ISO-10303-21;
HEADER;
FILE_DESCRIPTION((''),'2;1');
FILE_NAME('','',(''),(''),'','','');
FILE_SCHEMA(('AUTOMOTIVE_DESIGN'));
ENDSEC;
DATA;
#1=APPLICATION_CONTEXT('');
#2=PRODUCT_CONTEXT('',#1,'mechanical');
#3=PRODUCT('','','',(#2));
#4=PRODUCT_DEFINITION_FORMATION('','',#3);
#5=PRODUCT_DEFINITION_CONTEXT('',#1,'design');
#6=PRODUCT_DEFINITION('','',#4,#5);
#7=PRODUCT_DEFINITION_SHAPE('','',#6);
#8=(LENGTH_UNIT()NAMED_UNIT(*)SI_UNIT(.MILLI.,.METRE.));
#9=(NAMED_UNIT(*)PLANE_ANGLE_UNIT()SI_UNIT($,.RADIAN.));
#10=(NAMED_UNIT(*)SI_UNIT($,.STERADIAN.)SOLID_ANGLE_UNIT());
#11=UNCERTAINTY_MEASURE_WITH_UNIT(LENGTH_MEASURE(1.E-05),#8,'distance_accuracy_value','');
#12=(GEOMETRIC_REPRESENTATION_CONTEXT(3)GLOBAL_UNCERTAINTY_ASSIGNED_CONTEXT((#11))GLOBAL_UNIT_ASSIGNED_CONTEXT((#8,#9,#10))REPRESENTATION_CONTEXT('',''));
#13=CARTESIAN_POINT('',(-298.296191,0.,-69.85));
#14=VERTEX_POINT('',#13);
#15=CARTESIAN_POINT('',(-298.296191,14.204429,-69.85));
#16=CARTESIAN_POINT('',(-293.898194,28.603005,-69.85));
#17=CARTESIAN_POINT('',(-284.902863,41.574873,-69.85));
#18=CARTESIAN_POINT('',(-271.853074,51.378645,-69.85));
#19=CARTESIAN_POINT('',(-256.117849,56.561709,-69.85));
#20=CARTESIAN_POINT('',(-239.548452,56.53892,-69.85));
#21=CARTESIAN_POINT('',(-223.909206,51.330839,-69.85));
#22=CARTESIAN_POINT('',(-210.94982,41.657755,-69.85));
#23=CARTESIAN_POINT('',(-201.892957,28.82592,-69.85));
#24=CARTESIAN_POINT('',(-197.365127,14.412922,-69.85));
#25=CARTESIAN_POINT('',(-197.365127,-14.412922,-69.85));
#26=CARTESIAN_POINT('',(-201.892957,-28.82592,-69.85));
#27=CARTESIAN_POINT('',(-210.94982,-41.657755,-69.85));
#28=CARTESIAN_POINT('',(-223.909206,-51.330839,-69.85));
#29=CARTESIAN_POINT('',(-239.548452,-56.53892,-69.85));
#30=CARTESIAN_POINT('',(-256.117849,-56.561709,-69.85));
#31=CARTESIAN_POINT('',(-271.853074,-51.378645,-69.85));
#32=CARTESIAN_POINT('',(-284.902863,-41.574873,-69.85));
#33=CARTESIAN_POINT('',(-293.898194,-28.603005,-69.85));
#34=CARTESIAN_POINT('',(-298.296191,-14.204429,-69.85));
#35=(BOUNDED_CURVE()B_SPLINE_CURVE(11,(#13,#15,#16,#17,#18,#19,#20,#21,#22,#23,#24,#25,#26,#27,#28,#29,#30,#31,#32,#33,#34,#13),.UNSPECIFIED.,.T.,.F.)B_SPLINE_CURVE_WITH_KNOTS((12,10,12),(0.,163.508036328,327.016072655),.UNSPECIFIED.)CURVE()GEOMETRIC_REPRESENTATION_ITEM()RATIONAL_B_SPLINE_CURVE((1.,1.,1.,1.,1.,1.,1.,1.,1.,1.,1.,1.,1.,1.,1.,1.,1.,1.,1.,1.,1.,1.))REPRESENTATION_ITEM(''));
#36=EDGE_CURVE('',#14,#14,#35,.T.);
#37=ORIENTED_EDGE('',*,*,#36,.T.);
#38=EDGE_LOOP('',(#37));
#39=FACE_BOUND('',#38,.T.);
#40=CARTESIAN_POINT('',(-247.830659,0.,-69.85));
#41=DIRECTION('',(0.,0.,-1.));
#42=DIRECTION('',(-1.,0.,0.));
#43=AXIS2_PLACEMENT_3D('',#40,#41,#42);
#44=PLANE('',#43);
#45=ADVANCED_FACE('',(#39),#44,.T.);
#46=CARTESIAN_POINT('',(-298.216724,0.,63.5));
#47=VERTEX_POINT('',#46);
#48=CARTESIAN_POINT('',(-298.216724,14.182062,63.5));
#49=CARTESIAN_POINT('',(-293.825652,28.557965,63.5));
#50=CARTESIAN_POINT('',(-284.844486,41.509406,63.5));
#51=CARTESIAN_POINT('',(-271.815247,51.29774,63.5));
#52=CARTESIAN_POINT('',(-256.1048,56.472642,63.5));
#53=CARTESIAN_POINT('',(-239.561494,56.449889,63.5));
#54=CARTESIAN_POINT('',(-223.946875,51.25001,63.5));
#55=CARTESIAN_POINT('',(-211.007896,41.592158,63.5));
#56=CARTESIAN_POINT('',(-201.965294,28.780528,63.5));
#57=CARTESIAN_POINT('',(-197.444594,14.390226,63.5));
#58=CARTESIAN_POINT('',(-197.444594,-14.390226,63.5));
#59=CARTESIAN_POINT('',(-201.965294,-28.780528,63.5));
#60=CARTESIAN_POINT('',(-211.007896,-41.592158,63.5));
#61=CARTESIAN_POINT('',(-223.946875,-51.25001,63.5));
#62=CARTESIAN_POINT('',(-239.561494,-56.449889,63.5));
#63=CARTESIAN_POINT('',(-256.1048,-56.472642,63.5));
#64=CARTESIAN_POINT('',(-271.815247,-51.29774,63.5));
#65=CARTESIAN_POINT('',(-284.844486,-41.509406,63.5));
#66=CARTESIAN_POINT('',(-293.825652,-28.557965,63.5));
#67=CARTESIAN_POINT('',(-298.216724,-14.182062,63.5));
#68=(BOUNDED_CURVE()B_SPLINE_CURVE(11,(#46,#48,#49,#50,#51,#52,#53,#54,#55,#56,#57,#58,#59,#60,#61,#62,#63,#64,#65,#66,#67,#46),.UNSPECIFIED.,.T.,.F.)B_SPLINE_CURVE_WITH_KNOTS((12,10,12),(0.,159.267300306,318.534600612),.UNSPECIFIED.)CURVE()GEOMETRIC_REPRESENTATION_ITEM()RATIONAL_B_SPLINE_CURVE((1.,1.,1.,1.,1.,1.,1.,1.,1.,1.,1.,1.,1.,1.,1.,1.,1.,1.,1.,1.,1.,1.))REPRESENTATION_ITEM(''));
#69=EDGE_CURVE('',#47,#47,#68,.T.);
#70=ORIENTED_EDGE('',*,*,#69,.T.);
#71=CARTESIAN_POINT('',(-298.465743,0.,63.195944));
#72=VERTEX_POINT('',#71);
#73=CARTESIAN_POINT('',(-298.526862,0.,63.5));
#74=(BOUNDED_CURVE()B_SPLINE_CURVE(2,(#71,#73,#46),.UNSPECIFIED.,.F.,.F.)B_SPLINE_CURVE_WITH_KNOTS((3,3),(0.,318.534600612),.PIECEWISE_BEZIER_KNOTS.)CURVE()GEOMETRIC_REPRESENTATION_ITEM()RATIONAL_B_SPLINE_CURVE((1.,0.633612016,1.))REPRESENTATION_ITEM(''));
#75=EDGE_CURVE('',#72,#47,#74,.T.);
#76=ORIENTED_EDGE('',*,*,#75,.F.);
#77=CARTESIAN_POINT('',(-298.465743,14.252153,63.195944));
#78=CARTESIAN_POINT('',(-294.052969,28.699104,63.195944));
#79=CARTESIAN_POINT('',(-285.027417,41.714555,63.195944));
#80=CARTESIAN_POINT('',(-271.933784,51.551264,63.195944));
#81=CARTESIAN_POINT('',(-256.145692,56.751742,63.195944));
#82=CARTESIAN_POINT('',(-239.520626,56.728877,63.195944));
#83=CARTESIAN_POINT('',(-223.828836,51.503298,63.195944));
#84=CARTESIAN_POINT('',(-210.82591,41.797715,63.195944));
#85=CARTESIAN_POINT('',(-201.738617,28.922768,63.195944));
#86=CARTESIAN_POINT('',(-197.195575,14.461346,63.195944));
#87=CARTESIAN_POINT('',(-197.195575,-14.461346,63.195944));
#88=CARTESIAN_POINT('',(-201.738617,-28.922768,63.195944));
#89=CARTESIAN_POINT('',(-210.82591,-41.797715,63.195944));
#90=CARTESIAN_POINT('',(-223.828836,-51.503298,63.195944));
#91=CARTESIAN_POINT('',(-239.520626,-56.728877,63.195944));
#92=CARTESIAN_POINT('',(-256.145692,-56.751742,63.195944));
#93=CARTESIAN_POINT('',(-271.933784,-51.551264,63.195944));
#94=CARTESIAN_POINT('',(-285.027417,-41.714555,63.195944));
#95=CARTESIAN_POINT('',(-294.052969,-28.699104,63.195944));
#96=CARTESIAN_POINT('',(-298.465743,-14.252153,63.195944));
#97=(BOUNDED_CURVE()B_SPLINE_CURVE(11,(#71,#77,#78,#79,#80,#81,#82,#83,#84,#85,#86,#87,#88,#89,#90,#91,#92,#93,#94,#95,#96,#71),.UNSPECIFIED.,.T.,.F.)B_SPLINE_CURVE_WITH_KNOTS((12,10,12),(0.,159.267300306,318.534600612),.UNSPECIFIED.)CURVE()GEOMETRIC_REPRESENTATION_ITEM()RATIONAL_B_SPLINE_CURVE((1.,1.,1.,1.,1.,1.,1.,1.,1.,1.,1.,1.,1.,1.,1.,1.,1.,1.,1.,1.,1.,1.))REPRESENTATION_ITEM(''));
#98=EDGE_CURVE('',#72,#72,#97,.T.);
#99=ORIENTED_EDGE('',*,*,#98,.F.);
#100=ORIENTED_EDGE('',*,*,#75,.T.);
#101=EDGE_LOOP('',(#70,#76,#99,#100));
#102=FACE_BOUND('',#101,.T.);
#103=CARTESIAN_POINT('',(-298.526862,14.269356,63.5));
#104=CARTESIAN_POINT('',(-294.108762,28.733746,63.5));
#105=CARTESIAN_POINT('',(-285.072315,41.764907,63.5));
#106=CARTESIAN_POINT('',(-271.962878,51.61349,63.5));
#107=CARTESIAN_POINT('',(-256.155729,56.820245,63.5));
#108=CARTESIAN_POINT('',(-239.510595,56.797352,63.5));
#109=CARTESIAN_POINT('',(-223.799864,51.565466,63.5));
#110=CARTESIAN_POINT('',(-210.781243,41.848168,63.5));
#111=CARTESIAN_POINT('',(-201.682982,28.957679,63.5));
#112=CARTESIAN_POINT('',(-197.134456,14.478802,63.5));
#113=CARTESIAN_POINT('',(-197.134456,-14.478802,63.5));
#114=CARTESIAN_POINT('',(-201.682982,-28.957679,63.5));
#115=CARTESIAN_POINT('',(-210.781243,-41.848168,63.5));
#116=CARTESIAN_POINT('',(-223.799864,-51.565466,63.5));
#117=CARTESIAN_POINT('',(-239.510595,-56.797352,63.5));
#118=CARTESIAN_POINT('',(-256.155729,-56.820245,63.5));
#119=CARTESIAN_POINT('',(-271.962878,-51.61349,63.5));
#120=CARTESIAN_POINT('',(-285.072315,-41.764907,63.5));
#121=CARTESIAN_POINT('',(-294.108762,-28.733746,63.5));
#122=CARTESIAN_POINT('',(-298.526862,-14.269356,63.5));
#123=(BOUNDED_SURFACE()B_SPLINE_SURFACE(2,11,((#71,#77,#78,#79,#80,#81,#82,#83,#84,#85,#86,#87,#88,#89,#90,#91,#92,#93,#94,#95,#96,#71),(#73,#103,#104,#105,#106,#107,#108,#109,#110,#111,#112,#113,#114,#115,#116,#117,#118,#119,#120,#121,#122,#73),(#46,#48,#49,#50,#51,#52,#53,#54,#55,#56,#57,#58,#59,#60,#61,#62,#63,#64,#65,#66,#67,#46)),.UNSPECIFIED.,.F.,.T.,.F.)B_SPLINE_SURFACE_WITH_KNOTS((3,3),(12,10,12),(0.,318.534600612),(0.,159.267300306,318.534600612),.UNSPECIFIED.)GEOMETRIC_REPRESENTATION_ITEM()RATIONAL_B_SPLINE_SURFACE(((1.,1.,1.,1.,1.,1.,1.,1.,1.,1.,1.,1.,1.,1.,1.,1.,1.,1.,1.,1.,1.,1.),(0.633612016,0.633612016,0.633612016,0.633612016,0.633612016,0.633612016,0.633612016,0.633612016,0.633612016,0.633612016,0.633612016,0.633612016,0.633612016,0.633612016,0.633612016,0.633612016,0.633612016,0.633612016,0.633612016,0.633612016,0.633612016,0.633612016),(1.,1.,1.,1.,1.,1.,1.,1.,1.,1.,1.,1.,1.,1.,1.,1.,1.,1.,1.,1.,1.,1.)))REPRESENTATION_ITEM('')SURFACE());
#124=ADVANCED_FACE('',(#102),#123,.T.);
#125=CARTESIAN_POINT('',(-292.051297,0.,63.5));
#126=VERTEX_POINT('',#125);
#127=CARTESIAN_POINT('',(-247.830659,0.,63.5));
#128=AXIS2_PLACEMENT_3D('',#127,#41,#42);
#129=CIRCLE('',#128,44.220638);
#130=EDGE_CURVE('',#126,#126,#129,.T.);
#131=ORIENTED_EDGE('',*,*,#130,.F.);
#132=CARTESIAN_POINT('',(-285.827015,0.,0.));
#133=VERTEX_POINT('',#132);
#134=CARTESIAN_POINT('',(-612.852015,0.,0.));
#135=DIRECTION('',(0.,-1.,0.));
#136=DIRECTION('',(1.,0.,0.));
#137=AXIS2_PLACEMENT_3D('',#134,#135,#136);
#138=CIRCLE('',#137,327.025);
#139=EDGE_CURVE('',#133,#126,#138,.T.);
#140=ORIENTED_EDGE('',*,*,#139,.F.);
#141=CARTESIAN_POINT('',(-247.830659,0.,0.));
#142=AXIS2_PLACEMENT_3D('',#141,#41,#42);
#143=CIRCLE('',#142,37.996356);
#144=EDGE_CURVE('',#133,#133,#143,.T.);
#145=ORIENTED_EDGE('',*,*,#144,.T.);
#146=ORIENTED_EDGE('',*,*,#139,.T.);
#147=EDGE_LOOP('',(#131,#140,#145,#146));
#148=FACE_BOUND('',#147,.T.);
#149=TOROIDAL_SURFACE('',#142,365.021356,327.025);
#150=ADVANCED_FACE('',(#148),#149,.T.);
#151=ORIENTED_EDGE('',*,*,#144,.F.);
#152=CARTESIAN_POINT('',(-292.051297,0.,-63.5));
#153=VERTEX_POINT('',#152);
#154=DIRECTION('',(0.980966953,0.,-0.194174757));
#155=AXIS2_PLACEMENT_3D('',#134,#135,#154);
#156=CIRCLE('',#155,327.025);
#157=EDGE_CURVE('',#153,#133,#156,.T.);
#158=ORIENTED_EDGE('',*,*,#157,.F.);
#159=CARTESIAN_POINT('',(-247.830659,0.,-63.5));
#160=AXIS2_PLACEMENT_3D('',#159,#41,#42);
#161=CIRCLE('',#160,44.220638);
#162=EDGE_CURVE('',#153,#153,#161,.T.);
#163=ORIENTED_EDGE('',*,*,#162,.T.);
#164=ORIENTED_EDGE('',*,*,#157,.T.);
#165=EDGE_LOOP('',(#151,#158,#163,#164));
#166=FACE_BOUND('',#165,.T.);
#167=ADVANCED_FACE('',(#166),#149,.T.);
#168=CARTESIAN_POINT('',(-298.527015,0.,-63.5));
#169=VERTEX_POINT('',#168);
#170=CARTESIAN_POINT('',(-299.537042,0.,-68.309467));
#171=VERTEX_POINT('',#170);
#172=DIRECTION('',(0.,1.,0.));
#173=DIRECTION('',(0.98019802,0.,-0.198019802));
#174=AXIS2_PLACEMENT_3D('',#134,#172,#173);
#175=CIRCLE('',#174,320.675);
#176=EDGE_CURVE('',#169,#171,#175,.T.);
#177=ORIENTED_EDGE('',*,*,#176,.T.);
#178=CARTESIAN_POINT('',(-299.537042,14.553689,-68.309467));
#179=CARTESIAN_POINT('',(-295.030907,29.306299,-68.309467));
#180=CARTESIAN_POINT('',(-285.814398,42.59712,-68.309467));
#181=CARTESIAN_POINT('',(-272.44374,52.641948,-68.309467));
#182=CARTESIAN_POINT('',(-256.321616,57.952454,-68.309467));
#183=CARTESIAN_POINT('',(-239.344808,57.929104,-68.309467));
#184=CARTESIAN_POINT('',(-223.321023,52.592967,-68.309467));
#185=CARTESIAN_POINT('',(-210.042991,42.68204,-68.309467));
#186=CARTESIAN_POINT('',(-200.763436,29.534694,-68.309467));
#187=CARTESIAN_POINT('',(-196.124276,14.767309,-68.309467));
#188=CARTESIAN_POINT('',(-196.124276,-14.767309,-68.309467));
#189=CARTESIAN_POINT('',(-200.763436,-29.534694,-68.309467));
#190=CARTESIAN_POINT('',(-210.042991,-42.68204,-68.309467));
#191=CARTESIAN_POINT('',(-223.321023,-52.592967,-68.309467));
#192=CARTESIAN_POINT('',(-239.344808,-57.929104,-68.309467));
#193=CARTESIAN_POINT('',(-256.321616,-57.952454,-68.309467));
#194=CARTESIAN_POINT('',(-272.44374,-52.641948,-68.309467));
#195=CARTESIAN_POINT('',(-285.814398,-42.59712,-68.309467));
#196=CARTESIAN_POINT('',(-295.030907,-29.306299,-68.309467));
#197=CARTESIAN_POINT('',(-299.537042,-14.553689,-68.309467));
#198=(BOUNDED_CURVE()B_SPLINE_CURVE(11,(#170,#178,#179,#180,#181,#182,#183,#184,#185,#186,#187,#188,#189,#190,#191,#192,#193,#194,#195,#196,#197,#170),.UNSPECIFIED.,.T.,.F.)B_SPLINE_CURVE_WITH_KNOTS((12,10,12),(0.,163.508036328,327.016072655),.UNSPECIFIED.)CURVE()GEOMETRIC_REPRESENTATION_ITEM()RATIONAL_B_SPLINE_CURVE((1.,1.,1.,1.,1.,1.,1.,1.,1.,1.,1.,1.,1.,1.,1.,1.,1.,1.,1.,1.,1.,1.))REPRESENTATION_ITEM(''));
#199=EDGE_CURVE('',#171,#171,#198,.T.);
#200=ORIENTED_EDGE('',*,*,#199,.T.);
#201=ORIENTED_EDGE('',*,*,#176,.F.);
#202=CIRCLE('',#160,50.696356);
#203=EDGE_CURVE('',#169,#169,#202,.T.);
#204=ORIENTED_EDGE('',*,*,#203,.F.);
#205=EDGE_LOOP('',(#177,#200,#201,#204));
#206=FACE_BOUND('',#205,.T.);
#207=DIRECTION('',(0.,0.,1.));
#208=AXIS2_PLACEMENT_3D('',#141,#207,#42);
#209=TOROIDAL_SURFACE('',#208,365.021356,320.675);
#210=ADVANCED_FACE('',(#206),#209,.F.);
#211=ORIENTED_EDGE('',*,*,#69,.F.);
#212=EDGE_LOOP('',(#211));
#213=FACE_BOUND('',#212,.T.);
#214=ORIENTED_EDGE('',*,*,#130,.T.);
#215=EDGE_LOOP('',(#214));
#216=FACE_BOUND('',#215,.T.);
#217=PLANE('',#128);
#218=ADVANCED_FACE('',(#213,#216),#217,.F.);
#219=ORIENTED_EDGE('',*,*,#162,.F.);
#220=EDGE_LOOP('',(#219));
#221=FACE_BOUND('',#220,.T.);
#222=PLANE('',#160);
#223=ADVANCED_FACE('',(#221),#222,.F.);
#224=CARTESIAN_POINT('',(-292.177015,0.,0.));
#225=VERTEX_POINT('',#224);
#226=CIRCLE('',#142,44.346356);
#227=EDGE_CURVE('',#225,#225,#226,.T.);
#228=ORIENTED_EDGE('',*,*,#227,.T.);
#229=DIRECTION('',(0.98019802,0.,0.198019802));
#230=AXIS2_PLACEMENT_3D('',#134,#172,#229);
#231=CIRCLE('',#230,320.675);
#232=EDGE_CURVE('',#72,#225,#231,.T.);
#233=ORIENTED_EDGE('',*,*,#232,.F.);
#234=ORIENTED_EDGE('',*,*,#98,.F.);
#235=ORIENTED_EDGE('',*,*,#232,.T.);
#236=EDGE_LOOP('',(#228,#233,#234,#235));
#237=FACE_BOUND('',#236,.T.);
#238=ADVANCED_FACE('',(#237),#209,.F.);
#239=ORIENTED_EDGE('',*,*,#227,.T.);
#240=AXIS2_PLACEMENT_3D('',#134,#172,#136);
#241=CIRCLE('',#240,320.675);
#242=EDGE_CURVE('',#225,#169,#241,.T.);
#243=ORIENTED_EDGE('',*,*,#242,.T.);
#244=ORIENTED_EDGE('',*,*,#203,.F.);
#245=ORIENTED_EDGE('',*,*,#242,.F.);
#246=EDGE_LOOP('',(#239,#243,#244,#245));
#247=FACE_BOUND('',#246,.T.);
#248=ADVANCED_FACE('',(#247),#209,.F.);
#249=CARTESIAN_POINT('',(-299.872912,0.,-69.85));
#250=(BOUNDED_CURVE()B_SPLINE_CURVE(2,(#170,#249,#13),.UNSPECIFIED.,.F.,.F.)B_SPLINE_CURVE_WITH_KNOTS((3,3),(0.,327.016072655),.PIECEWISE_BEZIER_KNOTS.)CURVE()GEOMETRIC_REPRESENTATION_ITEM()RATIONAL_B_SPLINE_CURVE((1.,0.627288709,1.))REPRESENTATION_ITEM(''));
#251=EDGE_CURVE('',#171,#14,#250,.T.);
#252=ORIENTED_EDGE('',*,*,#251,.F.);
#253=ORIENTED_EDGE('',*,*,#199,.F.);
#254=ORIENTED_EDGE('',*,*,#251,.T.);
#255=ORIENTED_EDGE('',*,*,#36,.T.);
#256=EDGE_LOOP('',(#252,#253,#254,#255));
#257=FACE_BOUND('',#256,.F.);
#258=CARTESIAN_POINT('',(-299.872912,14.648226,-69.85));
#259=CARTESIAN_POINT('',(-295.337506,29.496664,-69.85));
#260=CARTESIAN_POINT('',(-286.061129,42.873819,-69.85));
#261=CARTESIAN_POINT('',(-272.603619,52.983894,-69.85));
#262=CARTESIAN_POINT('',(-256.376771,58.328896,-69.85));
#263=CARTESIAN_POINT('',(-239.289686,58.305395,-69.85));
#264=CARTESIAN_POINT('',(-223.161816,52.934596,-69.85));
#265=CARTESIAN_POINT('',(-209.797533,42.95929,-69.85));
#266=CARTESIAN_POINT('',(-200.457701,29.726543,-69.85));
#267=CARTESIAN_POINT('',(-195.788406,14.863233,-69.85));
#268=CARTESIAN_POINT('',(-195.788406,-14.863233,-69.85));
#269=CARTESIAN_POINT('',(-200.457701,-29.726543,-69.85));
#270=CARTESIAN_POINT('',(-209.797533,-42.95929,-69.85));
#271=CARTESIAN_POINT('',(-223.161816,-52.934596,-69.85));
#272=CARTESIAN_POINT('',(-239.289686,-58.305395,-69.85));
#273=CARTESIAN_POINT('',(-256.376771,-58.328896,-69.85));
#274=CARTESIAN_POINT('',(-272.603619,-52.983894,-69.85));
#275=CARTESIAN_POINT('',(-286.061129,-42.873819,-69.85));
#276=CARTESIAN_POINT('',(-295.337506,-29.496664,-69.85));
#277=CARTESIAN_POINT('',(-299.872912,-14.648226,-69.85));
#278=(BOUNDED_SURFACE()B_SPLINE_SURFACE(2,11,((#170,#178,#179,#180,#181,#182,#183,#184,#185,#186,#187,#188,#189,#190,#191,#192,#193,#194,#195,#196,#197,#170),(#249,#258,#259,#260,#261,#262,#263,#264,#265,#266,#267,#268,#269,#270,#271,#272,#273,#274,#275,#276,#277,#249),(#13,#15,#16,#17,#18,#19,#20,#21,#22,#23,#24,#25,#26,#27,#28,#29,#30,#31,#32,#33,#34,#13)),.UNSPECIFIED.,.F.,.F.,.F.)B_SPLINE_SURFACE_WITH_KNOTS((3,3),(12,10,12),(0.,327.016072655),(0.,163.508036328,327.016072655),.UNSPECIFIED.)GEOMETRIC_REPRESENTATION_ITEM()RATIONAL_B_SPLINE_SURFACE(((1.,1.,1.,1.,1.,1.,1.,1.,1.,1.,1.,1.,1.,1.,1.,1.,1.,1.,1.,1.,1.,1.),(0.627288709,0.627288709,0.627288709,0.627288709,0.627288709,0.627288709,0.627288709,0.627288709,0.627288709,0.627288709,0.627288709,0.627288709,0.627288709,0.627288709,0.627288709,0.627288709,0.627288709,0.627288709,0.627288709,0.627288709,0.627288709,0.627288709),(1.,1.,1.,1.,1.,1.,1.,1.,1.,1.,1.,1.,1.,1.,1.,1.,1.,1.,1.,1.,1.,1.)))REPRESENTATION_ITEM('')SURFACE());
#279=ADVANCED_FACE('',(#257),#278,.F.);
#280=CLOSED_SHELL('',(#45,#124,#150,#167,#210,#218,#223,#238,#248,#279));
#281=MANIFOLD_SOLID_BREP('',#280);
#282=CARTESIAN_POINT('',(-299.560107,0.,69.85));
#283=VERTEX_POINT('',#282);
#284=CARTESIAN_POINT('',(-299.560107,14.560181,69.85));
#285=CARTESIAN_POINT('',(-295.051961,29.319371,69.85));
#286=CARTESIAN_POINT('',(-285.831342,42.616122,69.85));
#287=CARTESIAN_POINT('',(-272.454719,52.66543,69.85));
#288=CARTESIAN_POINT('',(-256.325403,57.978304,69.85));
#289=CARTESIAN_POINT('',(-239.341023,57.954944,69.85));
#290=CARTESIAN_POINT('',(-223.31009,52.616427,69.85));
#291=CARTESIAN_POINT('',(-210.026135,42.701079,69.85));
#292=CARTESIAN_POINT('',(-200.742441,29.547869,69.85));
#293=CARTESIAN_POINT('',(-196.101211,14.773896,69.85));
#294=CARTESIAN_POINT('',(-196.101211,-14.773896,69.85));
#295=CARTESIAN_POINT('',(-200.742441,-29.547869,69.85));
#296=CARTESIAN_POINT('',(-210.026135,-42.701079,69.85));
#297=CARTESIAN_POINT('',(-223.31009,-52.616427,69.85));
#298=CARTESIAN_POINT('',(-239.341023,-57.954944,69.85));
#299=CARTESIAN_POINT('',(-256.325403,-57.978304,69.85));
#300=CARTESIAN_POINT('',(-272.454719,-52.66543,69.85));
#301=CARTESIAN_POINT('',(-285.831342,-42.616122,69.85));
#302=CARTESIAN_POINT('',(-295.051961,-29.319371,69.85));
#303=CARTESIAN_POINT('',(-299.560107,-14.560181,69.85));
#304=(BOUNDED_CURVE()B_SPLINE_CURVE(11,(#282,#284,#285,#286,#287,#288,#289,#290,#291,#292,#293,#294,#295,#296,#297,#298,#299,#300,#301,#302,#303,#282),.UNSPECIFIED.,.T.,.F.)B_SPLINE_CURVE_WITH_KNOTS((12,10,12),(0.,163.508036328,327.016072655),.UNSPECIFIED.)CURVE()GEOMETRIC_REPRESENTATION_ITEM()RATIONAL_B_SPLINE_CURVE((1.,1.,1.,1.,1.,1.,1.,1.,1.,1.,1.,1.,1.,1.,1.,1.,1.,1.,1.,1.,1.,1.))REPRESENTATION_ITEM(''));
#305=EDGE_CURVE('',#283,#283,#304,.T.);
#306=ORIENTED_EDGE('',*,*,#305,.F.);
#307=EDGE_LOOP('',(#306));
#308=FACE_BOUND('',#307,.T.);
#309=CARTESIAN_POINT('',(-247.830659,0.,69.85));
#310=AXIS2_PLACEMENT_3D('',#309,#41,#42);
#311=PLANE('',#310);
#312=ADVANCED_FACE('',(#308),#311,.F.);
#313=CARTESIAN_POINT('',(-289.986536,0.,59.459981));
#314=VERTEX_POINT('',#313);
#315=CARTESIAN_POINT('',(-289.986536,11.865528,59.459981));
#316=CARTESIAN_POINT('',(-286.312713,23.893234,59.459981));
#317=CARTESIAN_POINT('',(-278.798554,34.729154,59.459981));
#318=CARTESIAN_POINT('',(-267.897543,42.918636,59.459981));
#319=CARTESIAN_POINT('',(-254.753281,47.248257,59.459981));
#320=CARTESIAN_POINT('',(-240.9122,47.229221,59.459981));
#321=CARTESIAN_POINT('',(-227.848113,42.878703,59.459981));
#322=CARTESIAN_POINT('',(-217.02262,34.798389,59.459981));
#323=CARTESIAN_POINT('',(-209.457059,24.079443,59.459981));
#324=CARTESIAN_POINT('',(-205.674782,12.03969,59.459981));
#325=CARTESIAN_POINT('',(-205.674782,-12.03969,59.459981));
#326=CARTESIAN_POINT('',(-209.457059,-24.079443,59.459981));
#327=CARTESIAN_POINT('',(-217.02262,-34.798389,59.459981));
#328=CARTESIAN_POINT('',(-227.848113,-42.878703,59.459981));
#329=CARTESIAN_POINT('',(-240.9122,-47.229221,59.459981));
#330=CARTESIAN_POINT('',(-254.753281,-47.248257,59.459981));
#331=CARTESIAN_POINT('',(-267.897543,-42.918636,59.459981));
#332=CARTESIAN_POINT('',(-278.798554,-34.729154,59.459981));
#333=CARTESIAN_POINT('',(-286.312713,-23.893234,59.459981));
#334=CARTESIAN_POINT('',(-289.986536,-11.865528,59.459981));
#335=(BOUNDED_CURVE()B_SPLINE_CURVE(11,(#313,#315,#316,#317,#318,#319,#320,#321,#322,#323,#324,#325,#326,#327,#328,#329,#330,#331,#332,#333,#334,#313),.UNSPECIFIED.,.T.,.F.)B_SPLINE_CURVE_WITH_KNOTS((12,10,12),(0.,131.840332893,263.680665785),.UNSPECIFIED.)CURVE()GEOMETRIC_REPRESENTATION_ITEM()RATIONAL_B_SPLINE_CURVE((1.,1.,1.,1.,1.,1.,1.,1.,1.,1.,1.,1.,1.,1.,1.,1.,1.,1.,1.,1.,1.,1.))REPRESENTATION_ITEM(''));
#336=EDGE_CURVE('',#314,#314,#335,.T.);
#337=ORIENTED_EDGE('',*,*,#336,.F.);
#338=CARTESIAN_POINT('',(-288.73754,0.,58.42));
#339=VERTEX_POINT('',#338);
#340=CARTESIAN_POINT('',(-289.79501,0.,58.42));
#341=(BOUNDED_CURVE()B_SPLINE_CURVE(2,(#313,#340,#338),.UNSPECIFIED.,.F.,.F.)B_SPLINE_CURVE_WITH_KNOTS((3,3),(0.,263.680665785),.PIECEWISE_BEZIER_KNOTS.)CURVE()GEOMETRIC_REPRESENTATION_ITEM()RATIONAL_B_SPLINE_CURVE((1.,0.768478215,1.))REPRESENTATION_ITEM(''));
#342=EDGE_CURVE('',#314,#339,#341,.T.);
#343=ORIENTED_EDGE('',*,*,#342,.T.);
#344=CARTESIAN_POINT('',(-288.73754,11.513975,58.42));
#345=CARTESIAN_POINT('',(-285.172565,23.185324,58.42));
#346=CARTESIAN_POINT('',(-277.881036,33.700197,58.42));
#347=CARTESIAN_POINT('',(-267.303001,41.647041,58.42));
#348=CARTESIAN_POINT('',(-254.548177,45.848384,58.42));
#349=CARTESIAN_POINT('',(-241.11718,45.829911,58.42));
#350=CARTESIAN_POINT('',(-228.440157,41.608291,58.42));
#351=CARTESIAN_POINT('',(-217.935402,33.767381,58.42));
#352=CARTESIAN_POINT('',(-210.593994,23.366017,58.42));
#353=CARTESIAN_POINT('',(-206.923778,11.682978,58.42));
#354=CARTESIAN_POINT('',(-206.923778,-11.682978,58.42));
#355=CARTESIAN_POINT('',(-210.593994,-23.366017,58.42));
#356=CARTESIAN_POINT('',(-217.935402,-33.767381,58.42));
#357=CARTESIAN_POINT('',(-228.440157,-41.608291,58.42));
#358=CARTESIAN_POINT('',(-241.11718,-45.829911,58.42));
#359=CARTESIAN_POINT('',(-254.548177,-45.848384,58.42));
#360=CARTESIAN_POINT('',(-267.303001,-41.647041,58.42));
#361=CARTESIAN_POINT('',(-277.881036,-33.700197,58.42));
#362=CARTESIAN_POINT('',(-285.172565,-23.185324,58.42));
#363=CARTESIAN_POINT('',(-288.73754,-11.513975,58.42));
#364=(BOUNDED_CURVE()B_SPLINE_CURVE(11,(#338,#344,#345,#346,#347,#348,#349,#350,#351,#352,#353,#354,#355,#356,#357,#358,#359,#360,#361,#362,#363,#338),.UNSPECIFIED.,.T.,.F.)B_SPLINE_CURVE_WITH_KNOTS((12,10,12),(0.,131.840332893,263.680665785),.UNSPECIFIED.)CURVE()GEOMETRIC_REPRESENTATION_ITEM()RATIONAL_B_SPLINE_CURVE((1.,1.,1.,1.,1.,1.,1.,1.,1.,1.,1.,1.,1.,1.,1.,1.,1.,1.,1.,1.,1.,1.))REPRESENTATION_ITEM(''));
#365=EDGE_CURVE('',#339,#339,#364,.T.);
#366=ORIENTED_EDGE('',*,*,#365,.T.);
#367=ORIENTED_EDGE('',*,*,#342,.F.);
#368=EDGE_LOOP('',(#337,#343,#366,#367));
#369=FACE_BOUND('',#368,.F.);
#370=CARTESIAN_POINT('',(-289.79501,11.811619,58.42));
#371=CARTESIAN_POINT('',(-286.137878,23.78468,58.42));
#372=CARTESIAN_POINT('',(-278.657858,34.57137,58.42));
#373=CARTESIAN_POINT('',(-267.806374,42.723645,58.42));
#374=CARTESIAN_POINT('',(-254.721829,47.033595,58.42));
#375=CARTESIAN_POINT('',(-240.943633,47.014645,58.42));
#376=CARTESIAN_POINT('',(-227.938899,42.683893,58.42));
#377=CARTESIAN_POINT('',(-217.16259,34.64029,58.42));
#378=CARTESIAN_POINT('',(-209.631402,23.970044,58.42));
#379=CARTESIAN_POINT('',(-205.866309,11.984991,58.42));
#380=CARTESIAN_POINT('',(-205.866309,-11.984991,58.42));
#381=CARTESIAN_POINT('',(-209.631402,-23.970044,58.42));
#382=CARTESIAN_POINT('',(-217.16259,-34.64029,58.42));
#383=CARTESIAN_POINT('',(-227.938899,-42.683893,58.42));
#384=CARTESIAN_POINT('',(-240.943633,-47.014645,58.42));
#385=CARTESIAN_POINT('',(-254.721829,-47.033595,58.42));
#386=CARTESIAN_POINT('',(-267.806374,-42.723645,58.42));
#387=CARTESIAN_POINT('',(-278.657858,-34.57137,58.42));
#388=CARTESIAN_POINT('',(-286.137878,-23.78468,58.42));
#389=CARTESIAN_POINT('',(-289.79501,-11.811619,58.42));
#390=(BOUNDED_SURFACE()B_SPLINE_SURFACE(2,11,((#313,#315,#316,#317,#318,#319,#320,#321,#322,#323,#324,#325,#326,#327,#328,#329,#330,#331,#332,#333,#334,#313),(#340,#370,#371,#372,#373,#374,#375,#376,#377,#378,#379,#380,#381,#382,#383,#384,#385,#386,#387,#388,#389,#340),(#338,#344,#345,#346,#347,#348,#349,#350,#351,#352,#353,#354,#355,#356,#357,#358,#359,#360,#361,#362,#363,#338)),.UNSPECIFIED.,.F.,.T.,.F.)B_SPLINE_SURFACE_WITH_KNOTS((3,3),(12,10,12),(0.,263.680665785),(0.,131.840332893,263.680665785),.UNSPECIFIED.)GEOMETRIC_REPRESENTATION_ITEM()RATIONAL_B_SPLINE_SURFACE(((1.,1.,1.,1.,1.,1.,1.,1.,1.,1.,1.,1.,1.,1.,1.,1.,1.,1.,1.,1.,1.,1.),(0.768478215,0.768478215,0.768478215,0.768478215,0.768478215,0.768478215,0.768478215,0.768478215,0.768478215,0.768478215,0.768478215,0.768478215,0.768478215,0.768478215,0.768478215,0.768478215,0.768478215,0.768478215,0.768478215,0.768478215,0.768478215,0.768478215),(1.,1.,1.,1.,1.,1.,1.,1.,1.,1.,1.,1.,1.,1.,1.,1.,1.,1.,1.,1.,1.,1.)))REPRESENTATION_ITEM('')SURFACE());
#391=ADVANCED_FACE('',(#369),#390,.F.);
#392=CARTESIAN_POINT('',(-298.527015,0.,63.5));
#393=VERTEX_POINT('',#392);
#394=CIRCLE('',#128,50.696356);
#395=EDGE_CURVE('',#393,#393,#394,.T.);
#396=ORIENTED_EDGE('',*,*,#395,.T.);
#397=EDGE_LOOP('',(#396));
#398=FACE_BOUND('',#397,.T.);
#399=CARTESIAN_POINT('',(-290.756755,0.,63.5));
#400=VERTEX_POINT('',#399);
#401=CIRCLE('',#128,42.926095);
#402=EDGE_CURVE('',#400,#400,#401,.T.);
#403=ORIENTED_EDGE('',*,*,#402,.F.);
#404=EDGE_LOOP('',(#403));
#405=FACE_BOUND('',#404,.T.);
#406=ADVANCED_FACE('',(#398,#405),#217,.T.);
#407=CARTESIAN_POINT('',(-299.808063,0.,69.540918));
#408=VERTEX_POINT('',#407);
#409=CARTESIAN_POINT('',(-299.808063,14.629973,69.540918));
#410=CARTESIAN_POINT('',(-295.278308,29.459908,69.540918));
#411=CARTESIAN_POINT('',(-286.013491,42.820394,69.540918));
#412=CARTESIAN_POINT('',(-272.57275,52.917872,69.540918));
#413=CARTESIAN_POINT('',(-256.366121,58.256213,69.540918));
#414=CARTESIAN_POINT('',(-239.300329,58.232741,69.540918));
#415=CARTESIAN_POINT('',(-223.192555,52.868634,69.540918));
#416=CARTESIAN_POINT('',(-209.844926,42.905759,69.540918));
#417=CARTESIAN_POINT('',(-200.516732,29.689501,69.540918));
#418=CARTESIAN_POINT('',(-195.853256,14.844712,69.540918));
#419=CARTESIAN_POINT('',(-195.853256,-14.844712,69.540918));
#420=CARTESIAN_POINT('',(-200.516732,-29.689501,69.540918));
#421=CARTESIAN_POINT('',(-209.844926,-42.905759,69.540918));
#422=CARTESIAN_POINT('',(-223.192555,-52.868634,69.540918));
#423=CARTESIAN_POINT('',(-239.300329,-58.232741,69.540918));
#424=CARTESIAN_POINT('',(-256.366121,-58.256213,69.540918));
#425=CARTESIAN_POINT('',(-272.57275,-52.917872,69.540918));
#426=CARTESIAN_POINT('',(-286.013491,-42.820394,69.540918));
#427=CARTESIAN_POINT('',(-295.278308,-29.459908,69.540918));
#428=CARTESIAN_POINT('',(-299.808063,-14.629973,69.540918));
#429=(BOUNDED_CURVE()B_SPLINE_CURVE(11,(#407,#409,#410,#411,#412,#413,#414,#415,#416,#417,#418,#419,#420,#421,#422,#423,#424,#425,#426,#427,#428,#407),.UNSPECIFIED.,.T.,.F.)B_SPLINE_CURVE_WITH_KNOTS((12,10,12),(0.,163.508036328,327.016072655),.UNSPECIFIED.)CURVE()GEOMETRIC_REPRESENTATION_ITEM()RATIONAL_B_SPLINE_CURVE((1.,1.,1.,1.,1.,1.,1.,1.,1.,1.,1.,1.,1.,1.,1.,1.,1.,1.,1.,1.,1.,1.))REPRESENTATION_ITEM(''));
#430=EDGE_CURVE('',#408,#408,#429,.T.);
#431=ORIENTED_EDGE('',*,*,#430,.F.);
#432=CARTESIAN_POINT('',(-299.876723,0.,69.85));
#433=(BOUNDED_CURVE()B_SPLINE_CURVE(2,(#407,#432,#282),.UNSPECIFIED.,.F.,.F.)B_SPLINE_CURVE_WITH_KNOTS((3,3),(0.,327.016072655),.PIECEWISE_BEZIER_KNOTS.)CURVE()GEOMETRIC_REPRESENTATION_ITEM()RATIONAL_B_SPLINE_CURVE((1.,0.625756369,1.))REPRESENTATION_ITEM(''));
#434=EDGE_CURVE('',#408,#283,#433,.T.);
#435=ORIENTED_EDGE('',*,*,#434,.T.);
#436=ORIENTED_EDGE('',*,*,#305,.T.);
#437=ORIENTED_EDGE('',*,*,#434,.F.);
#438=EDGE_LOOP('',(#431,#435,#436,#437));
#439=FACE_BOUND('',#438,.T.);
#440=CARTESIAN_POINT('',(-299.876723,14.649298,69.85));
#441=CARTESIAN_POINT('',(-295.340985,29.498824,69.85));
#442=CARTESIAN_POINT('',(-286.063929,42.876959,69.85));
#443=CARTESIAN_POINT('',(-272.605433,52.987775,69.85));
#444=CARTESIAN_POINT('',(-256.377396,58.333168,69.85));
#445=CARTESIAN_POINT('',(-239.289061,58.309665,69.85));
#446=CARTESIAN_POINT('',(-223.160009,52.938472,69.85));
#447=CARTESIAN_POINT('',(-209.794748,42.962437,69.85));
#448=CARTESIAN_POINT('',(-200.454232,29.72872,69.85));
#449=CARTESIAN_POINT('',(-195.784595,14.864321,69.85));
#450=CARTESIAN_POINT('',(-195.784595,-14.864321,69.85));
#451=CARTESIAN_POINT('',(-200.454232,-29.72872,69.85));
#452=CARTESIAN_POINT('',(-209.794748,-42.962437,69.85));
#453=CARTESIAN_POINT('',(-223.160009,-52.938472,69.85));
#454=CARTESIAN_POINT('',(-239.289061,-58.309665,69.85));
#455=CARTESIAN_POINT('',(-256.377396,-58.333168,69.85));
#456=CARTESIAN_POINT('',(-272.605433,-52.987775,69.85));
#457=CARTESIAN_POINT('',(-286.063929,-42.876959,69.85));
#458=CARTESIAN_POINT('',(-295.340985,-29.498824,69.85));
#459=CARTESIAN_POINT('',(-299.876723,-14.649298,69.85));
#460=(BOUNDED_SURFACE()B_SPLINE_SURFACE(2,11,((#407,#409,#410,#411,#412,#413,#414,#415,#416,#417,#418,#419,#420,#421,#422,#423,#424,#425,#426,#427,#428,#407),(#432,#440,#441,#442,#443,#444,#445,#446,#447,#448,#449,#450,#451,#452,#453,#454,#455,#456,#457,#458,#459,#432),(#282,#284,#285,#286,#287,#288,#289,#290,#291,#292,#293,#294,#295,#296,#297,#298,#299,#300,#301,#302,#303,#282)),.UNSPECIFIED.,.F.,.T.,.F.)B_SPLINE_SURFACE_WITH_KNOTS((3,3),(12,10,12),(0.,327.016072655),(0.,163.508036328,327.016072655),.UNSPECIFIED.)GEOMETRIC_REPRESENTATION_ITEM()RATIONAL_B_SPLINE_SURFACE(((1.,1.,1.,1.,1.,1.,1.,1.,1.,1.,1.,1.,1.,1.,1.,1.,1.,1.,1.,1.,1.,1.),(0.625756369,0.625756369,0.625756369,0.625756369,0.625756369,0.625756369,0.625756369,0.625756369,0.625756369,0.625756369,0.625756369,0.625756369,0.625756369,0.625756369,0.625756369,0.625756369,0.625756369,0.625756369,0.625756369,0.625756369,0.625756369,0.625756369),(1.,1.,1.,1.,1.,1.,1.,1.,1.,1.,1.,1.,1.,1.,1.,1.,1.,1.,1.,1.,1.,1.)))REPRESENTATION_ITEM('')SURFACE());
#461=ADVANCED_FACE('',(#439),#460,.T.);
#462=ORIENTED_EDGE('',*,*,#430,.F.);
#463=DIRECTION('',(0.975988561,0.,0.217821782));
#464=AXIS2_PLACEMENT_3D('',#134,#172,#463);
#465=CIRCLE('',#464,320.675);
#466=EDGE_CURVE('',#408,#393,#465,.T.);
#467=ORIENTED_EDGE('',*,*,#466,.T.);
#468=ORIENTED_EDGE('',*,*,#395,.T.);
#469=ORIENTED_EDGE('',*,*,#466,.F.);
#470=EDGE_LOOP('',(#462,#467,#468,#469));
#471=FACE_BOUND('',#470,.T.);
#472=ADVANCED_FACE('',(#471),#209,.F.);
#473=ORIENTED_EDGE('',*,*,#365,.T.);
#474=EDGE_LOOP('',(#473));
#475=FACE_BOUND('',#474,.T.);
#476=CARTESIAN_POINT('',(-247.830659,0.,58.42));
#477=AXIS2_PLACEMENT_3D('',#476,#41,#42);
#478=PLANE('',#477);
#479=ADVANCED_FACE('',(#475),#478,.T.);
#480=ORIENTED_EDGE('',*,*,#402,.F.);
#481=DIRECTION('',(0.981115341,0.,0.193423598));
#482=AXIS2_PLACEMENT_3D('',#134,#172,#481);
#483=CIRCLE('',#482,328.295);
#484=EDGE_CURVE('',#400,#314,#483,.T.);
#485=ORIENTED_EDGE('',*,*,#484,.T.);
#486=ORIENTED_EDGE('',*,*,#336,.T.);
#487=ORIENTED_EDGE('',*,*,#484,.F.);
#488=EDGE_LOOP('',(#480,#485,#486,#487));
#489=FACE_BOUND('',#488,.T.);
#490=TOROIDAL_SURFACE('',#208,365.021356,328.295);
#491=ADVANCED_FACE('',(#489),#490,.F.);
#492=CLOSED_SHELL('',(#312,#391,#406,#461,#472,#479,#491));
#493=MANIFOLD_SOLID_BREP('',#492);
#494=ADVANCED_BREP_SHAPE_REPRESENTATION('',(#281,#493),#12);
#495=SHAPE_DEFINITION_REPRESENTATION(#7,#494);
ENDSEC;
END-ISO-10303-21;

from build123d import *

# Parameters (mm, degrees)
F3_R   = 1.27
F3_2_R = 1.27
F4_R   = 0.254
F4_2_R = 0.254


with BuildPart() as f1:
    # F0 (on Front) → F1 (revolve)
    with BuildSketch(Plane.XZ):
        with BuildLine():
            ThreePointArc((-298.5270153843, 63.5), (-293.7684644137, 31.9083550971), (-292.1770153843, 0))
            ThreePointArc((-292.1770153843, 0), (-293.7684644137, -31.9083550971), (-298.5270153843, -63.5))
            Line((-298.5270153843, -63.5), (-292.0512974534, -63.5))
            ThreePointArc((-292.0512974534, -63.5), (-287.3868057179, -31.9021617107), (-285.8270153843, 0))
            ThreePointArc((-285.8270153843, 0), (-287.3868057179, 31.9021617107), (-292.0512974534, 63.5))
            Line((-292.0512974534, 63.5), (-298.5270153843, 63.5))
        make_face()
        with BuildLine():
            Line((-292.0512974534, -63.5), (-298.5270153843, -63.5))
            ThreePointArc((-298.5270153843, -63.5), (-299.1858800366, -66.6784160058), (-299.8768835847, -69.85))
            Line((-299.8768835847, -69.85), (-293.373803099, -69.85))
            ThreePointArc((-293.373803099, -69.85), (-292.6968065485, -66.6782789242), (-292.0512974534, -63.5))
        make_face()
        with BuildLine():
            Line((-290.7567545918, -63.5), (-292.0512974534, -63.5))
            ThreePointArc((-292.0512974534, -63.5), (-292.6968065485, -66.6782789242), (-293.373803099, -69.85))
            Line((-293.373803099, -69.85), (-292.0739230448, -69.85))
            ThreePointArc((-292.0739230448, -69.85), (-291.3996586239, -66.678252513), (-290.7567545918, -63.5))
        make_face()
        with BuildLine():
            Line((-247.8306591511, -63.5), (-290.7567545918, -63.5))
            ThreePointArc((-290.7567545918, -63.5), (-291.3996586239, -66.678252513), (-292.0739230448, -69.85))
            Line((-292.0739230448, -69.85), (-247.8306591511, -69.85))
            Line((-247.8306591511, -69.85), (-247.8306591511, -63.5))
        make_face()
    revolve(axis=Axis((-247.8306591511, 0, 0.039152801), (0, 0, -1)))

    # F3
    f3_edges = [f1.edges().sort_by_distance(p)[0] for p in [
        (-195.784435, 0, -69.85),
    ]]
    fillet(f3_edges, radius=F3_R)

    # F4#2
    f4_2_edges = [f1.edges().sort_by_distance(p)[0] for p in [
        (-197.134303, 0, 63.5),
    ]]
    fillet(f4_2_edges, radius=F4_2_R)


with BuildPart() as f2:
    # F0 (on Front) → F2 (revolve)
    with BuildSketch(Plane.XZ):
        with BuildLine():
            ThreePointArc((-299.8768835847, 69.85), (-299.1858800366, 66.6784160058), (-298.5270153843, 63.5))
            Line((-298.5270153843, 63.5), (-292.0512974534, 63.5))
            ThreePointArc((-292.0512974534, 63.5), (-292.6968065485, 66.6782789242), (-293.373803099, 69.85))
            Line((-293.373803099, 69.85), (-299.8768835847, 69.85))
        make_face()
        with BuildLine():
            ThreePointArc((-293.373803099, 69.85), (-292.6968065485, 66.6782789242), (-292.0512974534, 63.5))
            Line((-292.0512974534, 63.5), (-290.7567545918, 63.5))
            ThreePointArc((-290.7567545918, 63.5), (-291.3996586239, 66.678252513), (-292.0739230448, 69.85))
            Line((-292.0739230448, 69.85), (-293.373803099, 69.85))
        make_face()
        with BuildLine():
            ThreePointArc((-292.0739230448, 69.85), (-291.3996586239, 66.678252513), (-290.7567545918, 63.5))
            Line((-290.7567545918, 63.5), (-247.8306591511, 63.5))
            Line((-247.8306591511, 63.5), (-247.8306591511, 69.85))
            Line((-247.8306591511, 69.85), (-292.0739230448, 69.85))
        make_face()
        with BuildLine():
            Line((-247.8306591511, 63.5), (-290.7567545918, 63.5))
            ThreePointArc((-290.7567545918, 63.5), (-290.2667475585, 60.9618897899), (-289.7967405086, 58.42))
            Line((-289.7967405086, 58.42), (-247.8306591511, 58.42))
            Line((-247.8306591511, 58.42), (-247.8306591511, 63.5))
        make_face()
    revolve(axis=Axis((-247.8306591511, 0, 0.039152801), (0, 0, -1)))

    # F3#2
    f3_2_edges = [f2.edges().sort_by_distance(p)[0] for p in [
        (-205.864578, 0, 58.42),
    ]]
    fillet(f3_2_edges, radius=F3_2_R)

    # F4
    f4_edges = [f2.edges().sort_by_distance(p)[0] for p in [
        (-195.784435, 0, 69.85),
    ]]
    fillet(f4_edges, radius=F4_R)


solid = Compound([f1.part, f2.part])
